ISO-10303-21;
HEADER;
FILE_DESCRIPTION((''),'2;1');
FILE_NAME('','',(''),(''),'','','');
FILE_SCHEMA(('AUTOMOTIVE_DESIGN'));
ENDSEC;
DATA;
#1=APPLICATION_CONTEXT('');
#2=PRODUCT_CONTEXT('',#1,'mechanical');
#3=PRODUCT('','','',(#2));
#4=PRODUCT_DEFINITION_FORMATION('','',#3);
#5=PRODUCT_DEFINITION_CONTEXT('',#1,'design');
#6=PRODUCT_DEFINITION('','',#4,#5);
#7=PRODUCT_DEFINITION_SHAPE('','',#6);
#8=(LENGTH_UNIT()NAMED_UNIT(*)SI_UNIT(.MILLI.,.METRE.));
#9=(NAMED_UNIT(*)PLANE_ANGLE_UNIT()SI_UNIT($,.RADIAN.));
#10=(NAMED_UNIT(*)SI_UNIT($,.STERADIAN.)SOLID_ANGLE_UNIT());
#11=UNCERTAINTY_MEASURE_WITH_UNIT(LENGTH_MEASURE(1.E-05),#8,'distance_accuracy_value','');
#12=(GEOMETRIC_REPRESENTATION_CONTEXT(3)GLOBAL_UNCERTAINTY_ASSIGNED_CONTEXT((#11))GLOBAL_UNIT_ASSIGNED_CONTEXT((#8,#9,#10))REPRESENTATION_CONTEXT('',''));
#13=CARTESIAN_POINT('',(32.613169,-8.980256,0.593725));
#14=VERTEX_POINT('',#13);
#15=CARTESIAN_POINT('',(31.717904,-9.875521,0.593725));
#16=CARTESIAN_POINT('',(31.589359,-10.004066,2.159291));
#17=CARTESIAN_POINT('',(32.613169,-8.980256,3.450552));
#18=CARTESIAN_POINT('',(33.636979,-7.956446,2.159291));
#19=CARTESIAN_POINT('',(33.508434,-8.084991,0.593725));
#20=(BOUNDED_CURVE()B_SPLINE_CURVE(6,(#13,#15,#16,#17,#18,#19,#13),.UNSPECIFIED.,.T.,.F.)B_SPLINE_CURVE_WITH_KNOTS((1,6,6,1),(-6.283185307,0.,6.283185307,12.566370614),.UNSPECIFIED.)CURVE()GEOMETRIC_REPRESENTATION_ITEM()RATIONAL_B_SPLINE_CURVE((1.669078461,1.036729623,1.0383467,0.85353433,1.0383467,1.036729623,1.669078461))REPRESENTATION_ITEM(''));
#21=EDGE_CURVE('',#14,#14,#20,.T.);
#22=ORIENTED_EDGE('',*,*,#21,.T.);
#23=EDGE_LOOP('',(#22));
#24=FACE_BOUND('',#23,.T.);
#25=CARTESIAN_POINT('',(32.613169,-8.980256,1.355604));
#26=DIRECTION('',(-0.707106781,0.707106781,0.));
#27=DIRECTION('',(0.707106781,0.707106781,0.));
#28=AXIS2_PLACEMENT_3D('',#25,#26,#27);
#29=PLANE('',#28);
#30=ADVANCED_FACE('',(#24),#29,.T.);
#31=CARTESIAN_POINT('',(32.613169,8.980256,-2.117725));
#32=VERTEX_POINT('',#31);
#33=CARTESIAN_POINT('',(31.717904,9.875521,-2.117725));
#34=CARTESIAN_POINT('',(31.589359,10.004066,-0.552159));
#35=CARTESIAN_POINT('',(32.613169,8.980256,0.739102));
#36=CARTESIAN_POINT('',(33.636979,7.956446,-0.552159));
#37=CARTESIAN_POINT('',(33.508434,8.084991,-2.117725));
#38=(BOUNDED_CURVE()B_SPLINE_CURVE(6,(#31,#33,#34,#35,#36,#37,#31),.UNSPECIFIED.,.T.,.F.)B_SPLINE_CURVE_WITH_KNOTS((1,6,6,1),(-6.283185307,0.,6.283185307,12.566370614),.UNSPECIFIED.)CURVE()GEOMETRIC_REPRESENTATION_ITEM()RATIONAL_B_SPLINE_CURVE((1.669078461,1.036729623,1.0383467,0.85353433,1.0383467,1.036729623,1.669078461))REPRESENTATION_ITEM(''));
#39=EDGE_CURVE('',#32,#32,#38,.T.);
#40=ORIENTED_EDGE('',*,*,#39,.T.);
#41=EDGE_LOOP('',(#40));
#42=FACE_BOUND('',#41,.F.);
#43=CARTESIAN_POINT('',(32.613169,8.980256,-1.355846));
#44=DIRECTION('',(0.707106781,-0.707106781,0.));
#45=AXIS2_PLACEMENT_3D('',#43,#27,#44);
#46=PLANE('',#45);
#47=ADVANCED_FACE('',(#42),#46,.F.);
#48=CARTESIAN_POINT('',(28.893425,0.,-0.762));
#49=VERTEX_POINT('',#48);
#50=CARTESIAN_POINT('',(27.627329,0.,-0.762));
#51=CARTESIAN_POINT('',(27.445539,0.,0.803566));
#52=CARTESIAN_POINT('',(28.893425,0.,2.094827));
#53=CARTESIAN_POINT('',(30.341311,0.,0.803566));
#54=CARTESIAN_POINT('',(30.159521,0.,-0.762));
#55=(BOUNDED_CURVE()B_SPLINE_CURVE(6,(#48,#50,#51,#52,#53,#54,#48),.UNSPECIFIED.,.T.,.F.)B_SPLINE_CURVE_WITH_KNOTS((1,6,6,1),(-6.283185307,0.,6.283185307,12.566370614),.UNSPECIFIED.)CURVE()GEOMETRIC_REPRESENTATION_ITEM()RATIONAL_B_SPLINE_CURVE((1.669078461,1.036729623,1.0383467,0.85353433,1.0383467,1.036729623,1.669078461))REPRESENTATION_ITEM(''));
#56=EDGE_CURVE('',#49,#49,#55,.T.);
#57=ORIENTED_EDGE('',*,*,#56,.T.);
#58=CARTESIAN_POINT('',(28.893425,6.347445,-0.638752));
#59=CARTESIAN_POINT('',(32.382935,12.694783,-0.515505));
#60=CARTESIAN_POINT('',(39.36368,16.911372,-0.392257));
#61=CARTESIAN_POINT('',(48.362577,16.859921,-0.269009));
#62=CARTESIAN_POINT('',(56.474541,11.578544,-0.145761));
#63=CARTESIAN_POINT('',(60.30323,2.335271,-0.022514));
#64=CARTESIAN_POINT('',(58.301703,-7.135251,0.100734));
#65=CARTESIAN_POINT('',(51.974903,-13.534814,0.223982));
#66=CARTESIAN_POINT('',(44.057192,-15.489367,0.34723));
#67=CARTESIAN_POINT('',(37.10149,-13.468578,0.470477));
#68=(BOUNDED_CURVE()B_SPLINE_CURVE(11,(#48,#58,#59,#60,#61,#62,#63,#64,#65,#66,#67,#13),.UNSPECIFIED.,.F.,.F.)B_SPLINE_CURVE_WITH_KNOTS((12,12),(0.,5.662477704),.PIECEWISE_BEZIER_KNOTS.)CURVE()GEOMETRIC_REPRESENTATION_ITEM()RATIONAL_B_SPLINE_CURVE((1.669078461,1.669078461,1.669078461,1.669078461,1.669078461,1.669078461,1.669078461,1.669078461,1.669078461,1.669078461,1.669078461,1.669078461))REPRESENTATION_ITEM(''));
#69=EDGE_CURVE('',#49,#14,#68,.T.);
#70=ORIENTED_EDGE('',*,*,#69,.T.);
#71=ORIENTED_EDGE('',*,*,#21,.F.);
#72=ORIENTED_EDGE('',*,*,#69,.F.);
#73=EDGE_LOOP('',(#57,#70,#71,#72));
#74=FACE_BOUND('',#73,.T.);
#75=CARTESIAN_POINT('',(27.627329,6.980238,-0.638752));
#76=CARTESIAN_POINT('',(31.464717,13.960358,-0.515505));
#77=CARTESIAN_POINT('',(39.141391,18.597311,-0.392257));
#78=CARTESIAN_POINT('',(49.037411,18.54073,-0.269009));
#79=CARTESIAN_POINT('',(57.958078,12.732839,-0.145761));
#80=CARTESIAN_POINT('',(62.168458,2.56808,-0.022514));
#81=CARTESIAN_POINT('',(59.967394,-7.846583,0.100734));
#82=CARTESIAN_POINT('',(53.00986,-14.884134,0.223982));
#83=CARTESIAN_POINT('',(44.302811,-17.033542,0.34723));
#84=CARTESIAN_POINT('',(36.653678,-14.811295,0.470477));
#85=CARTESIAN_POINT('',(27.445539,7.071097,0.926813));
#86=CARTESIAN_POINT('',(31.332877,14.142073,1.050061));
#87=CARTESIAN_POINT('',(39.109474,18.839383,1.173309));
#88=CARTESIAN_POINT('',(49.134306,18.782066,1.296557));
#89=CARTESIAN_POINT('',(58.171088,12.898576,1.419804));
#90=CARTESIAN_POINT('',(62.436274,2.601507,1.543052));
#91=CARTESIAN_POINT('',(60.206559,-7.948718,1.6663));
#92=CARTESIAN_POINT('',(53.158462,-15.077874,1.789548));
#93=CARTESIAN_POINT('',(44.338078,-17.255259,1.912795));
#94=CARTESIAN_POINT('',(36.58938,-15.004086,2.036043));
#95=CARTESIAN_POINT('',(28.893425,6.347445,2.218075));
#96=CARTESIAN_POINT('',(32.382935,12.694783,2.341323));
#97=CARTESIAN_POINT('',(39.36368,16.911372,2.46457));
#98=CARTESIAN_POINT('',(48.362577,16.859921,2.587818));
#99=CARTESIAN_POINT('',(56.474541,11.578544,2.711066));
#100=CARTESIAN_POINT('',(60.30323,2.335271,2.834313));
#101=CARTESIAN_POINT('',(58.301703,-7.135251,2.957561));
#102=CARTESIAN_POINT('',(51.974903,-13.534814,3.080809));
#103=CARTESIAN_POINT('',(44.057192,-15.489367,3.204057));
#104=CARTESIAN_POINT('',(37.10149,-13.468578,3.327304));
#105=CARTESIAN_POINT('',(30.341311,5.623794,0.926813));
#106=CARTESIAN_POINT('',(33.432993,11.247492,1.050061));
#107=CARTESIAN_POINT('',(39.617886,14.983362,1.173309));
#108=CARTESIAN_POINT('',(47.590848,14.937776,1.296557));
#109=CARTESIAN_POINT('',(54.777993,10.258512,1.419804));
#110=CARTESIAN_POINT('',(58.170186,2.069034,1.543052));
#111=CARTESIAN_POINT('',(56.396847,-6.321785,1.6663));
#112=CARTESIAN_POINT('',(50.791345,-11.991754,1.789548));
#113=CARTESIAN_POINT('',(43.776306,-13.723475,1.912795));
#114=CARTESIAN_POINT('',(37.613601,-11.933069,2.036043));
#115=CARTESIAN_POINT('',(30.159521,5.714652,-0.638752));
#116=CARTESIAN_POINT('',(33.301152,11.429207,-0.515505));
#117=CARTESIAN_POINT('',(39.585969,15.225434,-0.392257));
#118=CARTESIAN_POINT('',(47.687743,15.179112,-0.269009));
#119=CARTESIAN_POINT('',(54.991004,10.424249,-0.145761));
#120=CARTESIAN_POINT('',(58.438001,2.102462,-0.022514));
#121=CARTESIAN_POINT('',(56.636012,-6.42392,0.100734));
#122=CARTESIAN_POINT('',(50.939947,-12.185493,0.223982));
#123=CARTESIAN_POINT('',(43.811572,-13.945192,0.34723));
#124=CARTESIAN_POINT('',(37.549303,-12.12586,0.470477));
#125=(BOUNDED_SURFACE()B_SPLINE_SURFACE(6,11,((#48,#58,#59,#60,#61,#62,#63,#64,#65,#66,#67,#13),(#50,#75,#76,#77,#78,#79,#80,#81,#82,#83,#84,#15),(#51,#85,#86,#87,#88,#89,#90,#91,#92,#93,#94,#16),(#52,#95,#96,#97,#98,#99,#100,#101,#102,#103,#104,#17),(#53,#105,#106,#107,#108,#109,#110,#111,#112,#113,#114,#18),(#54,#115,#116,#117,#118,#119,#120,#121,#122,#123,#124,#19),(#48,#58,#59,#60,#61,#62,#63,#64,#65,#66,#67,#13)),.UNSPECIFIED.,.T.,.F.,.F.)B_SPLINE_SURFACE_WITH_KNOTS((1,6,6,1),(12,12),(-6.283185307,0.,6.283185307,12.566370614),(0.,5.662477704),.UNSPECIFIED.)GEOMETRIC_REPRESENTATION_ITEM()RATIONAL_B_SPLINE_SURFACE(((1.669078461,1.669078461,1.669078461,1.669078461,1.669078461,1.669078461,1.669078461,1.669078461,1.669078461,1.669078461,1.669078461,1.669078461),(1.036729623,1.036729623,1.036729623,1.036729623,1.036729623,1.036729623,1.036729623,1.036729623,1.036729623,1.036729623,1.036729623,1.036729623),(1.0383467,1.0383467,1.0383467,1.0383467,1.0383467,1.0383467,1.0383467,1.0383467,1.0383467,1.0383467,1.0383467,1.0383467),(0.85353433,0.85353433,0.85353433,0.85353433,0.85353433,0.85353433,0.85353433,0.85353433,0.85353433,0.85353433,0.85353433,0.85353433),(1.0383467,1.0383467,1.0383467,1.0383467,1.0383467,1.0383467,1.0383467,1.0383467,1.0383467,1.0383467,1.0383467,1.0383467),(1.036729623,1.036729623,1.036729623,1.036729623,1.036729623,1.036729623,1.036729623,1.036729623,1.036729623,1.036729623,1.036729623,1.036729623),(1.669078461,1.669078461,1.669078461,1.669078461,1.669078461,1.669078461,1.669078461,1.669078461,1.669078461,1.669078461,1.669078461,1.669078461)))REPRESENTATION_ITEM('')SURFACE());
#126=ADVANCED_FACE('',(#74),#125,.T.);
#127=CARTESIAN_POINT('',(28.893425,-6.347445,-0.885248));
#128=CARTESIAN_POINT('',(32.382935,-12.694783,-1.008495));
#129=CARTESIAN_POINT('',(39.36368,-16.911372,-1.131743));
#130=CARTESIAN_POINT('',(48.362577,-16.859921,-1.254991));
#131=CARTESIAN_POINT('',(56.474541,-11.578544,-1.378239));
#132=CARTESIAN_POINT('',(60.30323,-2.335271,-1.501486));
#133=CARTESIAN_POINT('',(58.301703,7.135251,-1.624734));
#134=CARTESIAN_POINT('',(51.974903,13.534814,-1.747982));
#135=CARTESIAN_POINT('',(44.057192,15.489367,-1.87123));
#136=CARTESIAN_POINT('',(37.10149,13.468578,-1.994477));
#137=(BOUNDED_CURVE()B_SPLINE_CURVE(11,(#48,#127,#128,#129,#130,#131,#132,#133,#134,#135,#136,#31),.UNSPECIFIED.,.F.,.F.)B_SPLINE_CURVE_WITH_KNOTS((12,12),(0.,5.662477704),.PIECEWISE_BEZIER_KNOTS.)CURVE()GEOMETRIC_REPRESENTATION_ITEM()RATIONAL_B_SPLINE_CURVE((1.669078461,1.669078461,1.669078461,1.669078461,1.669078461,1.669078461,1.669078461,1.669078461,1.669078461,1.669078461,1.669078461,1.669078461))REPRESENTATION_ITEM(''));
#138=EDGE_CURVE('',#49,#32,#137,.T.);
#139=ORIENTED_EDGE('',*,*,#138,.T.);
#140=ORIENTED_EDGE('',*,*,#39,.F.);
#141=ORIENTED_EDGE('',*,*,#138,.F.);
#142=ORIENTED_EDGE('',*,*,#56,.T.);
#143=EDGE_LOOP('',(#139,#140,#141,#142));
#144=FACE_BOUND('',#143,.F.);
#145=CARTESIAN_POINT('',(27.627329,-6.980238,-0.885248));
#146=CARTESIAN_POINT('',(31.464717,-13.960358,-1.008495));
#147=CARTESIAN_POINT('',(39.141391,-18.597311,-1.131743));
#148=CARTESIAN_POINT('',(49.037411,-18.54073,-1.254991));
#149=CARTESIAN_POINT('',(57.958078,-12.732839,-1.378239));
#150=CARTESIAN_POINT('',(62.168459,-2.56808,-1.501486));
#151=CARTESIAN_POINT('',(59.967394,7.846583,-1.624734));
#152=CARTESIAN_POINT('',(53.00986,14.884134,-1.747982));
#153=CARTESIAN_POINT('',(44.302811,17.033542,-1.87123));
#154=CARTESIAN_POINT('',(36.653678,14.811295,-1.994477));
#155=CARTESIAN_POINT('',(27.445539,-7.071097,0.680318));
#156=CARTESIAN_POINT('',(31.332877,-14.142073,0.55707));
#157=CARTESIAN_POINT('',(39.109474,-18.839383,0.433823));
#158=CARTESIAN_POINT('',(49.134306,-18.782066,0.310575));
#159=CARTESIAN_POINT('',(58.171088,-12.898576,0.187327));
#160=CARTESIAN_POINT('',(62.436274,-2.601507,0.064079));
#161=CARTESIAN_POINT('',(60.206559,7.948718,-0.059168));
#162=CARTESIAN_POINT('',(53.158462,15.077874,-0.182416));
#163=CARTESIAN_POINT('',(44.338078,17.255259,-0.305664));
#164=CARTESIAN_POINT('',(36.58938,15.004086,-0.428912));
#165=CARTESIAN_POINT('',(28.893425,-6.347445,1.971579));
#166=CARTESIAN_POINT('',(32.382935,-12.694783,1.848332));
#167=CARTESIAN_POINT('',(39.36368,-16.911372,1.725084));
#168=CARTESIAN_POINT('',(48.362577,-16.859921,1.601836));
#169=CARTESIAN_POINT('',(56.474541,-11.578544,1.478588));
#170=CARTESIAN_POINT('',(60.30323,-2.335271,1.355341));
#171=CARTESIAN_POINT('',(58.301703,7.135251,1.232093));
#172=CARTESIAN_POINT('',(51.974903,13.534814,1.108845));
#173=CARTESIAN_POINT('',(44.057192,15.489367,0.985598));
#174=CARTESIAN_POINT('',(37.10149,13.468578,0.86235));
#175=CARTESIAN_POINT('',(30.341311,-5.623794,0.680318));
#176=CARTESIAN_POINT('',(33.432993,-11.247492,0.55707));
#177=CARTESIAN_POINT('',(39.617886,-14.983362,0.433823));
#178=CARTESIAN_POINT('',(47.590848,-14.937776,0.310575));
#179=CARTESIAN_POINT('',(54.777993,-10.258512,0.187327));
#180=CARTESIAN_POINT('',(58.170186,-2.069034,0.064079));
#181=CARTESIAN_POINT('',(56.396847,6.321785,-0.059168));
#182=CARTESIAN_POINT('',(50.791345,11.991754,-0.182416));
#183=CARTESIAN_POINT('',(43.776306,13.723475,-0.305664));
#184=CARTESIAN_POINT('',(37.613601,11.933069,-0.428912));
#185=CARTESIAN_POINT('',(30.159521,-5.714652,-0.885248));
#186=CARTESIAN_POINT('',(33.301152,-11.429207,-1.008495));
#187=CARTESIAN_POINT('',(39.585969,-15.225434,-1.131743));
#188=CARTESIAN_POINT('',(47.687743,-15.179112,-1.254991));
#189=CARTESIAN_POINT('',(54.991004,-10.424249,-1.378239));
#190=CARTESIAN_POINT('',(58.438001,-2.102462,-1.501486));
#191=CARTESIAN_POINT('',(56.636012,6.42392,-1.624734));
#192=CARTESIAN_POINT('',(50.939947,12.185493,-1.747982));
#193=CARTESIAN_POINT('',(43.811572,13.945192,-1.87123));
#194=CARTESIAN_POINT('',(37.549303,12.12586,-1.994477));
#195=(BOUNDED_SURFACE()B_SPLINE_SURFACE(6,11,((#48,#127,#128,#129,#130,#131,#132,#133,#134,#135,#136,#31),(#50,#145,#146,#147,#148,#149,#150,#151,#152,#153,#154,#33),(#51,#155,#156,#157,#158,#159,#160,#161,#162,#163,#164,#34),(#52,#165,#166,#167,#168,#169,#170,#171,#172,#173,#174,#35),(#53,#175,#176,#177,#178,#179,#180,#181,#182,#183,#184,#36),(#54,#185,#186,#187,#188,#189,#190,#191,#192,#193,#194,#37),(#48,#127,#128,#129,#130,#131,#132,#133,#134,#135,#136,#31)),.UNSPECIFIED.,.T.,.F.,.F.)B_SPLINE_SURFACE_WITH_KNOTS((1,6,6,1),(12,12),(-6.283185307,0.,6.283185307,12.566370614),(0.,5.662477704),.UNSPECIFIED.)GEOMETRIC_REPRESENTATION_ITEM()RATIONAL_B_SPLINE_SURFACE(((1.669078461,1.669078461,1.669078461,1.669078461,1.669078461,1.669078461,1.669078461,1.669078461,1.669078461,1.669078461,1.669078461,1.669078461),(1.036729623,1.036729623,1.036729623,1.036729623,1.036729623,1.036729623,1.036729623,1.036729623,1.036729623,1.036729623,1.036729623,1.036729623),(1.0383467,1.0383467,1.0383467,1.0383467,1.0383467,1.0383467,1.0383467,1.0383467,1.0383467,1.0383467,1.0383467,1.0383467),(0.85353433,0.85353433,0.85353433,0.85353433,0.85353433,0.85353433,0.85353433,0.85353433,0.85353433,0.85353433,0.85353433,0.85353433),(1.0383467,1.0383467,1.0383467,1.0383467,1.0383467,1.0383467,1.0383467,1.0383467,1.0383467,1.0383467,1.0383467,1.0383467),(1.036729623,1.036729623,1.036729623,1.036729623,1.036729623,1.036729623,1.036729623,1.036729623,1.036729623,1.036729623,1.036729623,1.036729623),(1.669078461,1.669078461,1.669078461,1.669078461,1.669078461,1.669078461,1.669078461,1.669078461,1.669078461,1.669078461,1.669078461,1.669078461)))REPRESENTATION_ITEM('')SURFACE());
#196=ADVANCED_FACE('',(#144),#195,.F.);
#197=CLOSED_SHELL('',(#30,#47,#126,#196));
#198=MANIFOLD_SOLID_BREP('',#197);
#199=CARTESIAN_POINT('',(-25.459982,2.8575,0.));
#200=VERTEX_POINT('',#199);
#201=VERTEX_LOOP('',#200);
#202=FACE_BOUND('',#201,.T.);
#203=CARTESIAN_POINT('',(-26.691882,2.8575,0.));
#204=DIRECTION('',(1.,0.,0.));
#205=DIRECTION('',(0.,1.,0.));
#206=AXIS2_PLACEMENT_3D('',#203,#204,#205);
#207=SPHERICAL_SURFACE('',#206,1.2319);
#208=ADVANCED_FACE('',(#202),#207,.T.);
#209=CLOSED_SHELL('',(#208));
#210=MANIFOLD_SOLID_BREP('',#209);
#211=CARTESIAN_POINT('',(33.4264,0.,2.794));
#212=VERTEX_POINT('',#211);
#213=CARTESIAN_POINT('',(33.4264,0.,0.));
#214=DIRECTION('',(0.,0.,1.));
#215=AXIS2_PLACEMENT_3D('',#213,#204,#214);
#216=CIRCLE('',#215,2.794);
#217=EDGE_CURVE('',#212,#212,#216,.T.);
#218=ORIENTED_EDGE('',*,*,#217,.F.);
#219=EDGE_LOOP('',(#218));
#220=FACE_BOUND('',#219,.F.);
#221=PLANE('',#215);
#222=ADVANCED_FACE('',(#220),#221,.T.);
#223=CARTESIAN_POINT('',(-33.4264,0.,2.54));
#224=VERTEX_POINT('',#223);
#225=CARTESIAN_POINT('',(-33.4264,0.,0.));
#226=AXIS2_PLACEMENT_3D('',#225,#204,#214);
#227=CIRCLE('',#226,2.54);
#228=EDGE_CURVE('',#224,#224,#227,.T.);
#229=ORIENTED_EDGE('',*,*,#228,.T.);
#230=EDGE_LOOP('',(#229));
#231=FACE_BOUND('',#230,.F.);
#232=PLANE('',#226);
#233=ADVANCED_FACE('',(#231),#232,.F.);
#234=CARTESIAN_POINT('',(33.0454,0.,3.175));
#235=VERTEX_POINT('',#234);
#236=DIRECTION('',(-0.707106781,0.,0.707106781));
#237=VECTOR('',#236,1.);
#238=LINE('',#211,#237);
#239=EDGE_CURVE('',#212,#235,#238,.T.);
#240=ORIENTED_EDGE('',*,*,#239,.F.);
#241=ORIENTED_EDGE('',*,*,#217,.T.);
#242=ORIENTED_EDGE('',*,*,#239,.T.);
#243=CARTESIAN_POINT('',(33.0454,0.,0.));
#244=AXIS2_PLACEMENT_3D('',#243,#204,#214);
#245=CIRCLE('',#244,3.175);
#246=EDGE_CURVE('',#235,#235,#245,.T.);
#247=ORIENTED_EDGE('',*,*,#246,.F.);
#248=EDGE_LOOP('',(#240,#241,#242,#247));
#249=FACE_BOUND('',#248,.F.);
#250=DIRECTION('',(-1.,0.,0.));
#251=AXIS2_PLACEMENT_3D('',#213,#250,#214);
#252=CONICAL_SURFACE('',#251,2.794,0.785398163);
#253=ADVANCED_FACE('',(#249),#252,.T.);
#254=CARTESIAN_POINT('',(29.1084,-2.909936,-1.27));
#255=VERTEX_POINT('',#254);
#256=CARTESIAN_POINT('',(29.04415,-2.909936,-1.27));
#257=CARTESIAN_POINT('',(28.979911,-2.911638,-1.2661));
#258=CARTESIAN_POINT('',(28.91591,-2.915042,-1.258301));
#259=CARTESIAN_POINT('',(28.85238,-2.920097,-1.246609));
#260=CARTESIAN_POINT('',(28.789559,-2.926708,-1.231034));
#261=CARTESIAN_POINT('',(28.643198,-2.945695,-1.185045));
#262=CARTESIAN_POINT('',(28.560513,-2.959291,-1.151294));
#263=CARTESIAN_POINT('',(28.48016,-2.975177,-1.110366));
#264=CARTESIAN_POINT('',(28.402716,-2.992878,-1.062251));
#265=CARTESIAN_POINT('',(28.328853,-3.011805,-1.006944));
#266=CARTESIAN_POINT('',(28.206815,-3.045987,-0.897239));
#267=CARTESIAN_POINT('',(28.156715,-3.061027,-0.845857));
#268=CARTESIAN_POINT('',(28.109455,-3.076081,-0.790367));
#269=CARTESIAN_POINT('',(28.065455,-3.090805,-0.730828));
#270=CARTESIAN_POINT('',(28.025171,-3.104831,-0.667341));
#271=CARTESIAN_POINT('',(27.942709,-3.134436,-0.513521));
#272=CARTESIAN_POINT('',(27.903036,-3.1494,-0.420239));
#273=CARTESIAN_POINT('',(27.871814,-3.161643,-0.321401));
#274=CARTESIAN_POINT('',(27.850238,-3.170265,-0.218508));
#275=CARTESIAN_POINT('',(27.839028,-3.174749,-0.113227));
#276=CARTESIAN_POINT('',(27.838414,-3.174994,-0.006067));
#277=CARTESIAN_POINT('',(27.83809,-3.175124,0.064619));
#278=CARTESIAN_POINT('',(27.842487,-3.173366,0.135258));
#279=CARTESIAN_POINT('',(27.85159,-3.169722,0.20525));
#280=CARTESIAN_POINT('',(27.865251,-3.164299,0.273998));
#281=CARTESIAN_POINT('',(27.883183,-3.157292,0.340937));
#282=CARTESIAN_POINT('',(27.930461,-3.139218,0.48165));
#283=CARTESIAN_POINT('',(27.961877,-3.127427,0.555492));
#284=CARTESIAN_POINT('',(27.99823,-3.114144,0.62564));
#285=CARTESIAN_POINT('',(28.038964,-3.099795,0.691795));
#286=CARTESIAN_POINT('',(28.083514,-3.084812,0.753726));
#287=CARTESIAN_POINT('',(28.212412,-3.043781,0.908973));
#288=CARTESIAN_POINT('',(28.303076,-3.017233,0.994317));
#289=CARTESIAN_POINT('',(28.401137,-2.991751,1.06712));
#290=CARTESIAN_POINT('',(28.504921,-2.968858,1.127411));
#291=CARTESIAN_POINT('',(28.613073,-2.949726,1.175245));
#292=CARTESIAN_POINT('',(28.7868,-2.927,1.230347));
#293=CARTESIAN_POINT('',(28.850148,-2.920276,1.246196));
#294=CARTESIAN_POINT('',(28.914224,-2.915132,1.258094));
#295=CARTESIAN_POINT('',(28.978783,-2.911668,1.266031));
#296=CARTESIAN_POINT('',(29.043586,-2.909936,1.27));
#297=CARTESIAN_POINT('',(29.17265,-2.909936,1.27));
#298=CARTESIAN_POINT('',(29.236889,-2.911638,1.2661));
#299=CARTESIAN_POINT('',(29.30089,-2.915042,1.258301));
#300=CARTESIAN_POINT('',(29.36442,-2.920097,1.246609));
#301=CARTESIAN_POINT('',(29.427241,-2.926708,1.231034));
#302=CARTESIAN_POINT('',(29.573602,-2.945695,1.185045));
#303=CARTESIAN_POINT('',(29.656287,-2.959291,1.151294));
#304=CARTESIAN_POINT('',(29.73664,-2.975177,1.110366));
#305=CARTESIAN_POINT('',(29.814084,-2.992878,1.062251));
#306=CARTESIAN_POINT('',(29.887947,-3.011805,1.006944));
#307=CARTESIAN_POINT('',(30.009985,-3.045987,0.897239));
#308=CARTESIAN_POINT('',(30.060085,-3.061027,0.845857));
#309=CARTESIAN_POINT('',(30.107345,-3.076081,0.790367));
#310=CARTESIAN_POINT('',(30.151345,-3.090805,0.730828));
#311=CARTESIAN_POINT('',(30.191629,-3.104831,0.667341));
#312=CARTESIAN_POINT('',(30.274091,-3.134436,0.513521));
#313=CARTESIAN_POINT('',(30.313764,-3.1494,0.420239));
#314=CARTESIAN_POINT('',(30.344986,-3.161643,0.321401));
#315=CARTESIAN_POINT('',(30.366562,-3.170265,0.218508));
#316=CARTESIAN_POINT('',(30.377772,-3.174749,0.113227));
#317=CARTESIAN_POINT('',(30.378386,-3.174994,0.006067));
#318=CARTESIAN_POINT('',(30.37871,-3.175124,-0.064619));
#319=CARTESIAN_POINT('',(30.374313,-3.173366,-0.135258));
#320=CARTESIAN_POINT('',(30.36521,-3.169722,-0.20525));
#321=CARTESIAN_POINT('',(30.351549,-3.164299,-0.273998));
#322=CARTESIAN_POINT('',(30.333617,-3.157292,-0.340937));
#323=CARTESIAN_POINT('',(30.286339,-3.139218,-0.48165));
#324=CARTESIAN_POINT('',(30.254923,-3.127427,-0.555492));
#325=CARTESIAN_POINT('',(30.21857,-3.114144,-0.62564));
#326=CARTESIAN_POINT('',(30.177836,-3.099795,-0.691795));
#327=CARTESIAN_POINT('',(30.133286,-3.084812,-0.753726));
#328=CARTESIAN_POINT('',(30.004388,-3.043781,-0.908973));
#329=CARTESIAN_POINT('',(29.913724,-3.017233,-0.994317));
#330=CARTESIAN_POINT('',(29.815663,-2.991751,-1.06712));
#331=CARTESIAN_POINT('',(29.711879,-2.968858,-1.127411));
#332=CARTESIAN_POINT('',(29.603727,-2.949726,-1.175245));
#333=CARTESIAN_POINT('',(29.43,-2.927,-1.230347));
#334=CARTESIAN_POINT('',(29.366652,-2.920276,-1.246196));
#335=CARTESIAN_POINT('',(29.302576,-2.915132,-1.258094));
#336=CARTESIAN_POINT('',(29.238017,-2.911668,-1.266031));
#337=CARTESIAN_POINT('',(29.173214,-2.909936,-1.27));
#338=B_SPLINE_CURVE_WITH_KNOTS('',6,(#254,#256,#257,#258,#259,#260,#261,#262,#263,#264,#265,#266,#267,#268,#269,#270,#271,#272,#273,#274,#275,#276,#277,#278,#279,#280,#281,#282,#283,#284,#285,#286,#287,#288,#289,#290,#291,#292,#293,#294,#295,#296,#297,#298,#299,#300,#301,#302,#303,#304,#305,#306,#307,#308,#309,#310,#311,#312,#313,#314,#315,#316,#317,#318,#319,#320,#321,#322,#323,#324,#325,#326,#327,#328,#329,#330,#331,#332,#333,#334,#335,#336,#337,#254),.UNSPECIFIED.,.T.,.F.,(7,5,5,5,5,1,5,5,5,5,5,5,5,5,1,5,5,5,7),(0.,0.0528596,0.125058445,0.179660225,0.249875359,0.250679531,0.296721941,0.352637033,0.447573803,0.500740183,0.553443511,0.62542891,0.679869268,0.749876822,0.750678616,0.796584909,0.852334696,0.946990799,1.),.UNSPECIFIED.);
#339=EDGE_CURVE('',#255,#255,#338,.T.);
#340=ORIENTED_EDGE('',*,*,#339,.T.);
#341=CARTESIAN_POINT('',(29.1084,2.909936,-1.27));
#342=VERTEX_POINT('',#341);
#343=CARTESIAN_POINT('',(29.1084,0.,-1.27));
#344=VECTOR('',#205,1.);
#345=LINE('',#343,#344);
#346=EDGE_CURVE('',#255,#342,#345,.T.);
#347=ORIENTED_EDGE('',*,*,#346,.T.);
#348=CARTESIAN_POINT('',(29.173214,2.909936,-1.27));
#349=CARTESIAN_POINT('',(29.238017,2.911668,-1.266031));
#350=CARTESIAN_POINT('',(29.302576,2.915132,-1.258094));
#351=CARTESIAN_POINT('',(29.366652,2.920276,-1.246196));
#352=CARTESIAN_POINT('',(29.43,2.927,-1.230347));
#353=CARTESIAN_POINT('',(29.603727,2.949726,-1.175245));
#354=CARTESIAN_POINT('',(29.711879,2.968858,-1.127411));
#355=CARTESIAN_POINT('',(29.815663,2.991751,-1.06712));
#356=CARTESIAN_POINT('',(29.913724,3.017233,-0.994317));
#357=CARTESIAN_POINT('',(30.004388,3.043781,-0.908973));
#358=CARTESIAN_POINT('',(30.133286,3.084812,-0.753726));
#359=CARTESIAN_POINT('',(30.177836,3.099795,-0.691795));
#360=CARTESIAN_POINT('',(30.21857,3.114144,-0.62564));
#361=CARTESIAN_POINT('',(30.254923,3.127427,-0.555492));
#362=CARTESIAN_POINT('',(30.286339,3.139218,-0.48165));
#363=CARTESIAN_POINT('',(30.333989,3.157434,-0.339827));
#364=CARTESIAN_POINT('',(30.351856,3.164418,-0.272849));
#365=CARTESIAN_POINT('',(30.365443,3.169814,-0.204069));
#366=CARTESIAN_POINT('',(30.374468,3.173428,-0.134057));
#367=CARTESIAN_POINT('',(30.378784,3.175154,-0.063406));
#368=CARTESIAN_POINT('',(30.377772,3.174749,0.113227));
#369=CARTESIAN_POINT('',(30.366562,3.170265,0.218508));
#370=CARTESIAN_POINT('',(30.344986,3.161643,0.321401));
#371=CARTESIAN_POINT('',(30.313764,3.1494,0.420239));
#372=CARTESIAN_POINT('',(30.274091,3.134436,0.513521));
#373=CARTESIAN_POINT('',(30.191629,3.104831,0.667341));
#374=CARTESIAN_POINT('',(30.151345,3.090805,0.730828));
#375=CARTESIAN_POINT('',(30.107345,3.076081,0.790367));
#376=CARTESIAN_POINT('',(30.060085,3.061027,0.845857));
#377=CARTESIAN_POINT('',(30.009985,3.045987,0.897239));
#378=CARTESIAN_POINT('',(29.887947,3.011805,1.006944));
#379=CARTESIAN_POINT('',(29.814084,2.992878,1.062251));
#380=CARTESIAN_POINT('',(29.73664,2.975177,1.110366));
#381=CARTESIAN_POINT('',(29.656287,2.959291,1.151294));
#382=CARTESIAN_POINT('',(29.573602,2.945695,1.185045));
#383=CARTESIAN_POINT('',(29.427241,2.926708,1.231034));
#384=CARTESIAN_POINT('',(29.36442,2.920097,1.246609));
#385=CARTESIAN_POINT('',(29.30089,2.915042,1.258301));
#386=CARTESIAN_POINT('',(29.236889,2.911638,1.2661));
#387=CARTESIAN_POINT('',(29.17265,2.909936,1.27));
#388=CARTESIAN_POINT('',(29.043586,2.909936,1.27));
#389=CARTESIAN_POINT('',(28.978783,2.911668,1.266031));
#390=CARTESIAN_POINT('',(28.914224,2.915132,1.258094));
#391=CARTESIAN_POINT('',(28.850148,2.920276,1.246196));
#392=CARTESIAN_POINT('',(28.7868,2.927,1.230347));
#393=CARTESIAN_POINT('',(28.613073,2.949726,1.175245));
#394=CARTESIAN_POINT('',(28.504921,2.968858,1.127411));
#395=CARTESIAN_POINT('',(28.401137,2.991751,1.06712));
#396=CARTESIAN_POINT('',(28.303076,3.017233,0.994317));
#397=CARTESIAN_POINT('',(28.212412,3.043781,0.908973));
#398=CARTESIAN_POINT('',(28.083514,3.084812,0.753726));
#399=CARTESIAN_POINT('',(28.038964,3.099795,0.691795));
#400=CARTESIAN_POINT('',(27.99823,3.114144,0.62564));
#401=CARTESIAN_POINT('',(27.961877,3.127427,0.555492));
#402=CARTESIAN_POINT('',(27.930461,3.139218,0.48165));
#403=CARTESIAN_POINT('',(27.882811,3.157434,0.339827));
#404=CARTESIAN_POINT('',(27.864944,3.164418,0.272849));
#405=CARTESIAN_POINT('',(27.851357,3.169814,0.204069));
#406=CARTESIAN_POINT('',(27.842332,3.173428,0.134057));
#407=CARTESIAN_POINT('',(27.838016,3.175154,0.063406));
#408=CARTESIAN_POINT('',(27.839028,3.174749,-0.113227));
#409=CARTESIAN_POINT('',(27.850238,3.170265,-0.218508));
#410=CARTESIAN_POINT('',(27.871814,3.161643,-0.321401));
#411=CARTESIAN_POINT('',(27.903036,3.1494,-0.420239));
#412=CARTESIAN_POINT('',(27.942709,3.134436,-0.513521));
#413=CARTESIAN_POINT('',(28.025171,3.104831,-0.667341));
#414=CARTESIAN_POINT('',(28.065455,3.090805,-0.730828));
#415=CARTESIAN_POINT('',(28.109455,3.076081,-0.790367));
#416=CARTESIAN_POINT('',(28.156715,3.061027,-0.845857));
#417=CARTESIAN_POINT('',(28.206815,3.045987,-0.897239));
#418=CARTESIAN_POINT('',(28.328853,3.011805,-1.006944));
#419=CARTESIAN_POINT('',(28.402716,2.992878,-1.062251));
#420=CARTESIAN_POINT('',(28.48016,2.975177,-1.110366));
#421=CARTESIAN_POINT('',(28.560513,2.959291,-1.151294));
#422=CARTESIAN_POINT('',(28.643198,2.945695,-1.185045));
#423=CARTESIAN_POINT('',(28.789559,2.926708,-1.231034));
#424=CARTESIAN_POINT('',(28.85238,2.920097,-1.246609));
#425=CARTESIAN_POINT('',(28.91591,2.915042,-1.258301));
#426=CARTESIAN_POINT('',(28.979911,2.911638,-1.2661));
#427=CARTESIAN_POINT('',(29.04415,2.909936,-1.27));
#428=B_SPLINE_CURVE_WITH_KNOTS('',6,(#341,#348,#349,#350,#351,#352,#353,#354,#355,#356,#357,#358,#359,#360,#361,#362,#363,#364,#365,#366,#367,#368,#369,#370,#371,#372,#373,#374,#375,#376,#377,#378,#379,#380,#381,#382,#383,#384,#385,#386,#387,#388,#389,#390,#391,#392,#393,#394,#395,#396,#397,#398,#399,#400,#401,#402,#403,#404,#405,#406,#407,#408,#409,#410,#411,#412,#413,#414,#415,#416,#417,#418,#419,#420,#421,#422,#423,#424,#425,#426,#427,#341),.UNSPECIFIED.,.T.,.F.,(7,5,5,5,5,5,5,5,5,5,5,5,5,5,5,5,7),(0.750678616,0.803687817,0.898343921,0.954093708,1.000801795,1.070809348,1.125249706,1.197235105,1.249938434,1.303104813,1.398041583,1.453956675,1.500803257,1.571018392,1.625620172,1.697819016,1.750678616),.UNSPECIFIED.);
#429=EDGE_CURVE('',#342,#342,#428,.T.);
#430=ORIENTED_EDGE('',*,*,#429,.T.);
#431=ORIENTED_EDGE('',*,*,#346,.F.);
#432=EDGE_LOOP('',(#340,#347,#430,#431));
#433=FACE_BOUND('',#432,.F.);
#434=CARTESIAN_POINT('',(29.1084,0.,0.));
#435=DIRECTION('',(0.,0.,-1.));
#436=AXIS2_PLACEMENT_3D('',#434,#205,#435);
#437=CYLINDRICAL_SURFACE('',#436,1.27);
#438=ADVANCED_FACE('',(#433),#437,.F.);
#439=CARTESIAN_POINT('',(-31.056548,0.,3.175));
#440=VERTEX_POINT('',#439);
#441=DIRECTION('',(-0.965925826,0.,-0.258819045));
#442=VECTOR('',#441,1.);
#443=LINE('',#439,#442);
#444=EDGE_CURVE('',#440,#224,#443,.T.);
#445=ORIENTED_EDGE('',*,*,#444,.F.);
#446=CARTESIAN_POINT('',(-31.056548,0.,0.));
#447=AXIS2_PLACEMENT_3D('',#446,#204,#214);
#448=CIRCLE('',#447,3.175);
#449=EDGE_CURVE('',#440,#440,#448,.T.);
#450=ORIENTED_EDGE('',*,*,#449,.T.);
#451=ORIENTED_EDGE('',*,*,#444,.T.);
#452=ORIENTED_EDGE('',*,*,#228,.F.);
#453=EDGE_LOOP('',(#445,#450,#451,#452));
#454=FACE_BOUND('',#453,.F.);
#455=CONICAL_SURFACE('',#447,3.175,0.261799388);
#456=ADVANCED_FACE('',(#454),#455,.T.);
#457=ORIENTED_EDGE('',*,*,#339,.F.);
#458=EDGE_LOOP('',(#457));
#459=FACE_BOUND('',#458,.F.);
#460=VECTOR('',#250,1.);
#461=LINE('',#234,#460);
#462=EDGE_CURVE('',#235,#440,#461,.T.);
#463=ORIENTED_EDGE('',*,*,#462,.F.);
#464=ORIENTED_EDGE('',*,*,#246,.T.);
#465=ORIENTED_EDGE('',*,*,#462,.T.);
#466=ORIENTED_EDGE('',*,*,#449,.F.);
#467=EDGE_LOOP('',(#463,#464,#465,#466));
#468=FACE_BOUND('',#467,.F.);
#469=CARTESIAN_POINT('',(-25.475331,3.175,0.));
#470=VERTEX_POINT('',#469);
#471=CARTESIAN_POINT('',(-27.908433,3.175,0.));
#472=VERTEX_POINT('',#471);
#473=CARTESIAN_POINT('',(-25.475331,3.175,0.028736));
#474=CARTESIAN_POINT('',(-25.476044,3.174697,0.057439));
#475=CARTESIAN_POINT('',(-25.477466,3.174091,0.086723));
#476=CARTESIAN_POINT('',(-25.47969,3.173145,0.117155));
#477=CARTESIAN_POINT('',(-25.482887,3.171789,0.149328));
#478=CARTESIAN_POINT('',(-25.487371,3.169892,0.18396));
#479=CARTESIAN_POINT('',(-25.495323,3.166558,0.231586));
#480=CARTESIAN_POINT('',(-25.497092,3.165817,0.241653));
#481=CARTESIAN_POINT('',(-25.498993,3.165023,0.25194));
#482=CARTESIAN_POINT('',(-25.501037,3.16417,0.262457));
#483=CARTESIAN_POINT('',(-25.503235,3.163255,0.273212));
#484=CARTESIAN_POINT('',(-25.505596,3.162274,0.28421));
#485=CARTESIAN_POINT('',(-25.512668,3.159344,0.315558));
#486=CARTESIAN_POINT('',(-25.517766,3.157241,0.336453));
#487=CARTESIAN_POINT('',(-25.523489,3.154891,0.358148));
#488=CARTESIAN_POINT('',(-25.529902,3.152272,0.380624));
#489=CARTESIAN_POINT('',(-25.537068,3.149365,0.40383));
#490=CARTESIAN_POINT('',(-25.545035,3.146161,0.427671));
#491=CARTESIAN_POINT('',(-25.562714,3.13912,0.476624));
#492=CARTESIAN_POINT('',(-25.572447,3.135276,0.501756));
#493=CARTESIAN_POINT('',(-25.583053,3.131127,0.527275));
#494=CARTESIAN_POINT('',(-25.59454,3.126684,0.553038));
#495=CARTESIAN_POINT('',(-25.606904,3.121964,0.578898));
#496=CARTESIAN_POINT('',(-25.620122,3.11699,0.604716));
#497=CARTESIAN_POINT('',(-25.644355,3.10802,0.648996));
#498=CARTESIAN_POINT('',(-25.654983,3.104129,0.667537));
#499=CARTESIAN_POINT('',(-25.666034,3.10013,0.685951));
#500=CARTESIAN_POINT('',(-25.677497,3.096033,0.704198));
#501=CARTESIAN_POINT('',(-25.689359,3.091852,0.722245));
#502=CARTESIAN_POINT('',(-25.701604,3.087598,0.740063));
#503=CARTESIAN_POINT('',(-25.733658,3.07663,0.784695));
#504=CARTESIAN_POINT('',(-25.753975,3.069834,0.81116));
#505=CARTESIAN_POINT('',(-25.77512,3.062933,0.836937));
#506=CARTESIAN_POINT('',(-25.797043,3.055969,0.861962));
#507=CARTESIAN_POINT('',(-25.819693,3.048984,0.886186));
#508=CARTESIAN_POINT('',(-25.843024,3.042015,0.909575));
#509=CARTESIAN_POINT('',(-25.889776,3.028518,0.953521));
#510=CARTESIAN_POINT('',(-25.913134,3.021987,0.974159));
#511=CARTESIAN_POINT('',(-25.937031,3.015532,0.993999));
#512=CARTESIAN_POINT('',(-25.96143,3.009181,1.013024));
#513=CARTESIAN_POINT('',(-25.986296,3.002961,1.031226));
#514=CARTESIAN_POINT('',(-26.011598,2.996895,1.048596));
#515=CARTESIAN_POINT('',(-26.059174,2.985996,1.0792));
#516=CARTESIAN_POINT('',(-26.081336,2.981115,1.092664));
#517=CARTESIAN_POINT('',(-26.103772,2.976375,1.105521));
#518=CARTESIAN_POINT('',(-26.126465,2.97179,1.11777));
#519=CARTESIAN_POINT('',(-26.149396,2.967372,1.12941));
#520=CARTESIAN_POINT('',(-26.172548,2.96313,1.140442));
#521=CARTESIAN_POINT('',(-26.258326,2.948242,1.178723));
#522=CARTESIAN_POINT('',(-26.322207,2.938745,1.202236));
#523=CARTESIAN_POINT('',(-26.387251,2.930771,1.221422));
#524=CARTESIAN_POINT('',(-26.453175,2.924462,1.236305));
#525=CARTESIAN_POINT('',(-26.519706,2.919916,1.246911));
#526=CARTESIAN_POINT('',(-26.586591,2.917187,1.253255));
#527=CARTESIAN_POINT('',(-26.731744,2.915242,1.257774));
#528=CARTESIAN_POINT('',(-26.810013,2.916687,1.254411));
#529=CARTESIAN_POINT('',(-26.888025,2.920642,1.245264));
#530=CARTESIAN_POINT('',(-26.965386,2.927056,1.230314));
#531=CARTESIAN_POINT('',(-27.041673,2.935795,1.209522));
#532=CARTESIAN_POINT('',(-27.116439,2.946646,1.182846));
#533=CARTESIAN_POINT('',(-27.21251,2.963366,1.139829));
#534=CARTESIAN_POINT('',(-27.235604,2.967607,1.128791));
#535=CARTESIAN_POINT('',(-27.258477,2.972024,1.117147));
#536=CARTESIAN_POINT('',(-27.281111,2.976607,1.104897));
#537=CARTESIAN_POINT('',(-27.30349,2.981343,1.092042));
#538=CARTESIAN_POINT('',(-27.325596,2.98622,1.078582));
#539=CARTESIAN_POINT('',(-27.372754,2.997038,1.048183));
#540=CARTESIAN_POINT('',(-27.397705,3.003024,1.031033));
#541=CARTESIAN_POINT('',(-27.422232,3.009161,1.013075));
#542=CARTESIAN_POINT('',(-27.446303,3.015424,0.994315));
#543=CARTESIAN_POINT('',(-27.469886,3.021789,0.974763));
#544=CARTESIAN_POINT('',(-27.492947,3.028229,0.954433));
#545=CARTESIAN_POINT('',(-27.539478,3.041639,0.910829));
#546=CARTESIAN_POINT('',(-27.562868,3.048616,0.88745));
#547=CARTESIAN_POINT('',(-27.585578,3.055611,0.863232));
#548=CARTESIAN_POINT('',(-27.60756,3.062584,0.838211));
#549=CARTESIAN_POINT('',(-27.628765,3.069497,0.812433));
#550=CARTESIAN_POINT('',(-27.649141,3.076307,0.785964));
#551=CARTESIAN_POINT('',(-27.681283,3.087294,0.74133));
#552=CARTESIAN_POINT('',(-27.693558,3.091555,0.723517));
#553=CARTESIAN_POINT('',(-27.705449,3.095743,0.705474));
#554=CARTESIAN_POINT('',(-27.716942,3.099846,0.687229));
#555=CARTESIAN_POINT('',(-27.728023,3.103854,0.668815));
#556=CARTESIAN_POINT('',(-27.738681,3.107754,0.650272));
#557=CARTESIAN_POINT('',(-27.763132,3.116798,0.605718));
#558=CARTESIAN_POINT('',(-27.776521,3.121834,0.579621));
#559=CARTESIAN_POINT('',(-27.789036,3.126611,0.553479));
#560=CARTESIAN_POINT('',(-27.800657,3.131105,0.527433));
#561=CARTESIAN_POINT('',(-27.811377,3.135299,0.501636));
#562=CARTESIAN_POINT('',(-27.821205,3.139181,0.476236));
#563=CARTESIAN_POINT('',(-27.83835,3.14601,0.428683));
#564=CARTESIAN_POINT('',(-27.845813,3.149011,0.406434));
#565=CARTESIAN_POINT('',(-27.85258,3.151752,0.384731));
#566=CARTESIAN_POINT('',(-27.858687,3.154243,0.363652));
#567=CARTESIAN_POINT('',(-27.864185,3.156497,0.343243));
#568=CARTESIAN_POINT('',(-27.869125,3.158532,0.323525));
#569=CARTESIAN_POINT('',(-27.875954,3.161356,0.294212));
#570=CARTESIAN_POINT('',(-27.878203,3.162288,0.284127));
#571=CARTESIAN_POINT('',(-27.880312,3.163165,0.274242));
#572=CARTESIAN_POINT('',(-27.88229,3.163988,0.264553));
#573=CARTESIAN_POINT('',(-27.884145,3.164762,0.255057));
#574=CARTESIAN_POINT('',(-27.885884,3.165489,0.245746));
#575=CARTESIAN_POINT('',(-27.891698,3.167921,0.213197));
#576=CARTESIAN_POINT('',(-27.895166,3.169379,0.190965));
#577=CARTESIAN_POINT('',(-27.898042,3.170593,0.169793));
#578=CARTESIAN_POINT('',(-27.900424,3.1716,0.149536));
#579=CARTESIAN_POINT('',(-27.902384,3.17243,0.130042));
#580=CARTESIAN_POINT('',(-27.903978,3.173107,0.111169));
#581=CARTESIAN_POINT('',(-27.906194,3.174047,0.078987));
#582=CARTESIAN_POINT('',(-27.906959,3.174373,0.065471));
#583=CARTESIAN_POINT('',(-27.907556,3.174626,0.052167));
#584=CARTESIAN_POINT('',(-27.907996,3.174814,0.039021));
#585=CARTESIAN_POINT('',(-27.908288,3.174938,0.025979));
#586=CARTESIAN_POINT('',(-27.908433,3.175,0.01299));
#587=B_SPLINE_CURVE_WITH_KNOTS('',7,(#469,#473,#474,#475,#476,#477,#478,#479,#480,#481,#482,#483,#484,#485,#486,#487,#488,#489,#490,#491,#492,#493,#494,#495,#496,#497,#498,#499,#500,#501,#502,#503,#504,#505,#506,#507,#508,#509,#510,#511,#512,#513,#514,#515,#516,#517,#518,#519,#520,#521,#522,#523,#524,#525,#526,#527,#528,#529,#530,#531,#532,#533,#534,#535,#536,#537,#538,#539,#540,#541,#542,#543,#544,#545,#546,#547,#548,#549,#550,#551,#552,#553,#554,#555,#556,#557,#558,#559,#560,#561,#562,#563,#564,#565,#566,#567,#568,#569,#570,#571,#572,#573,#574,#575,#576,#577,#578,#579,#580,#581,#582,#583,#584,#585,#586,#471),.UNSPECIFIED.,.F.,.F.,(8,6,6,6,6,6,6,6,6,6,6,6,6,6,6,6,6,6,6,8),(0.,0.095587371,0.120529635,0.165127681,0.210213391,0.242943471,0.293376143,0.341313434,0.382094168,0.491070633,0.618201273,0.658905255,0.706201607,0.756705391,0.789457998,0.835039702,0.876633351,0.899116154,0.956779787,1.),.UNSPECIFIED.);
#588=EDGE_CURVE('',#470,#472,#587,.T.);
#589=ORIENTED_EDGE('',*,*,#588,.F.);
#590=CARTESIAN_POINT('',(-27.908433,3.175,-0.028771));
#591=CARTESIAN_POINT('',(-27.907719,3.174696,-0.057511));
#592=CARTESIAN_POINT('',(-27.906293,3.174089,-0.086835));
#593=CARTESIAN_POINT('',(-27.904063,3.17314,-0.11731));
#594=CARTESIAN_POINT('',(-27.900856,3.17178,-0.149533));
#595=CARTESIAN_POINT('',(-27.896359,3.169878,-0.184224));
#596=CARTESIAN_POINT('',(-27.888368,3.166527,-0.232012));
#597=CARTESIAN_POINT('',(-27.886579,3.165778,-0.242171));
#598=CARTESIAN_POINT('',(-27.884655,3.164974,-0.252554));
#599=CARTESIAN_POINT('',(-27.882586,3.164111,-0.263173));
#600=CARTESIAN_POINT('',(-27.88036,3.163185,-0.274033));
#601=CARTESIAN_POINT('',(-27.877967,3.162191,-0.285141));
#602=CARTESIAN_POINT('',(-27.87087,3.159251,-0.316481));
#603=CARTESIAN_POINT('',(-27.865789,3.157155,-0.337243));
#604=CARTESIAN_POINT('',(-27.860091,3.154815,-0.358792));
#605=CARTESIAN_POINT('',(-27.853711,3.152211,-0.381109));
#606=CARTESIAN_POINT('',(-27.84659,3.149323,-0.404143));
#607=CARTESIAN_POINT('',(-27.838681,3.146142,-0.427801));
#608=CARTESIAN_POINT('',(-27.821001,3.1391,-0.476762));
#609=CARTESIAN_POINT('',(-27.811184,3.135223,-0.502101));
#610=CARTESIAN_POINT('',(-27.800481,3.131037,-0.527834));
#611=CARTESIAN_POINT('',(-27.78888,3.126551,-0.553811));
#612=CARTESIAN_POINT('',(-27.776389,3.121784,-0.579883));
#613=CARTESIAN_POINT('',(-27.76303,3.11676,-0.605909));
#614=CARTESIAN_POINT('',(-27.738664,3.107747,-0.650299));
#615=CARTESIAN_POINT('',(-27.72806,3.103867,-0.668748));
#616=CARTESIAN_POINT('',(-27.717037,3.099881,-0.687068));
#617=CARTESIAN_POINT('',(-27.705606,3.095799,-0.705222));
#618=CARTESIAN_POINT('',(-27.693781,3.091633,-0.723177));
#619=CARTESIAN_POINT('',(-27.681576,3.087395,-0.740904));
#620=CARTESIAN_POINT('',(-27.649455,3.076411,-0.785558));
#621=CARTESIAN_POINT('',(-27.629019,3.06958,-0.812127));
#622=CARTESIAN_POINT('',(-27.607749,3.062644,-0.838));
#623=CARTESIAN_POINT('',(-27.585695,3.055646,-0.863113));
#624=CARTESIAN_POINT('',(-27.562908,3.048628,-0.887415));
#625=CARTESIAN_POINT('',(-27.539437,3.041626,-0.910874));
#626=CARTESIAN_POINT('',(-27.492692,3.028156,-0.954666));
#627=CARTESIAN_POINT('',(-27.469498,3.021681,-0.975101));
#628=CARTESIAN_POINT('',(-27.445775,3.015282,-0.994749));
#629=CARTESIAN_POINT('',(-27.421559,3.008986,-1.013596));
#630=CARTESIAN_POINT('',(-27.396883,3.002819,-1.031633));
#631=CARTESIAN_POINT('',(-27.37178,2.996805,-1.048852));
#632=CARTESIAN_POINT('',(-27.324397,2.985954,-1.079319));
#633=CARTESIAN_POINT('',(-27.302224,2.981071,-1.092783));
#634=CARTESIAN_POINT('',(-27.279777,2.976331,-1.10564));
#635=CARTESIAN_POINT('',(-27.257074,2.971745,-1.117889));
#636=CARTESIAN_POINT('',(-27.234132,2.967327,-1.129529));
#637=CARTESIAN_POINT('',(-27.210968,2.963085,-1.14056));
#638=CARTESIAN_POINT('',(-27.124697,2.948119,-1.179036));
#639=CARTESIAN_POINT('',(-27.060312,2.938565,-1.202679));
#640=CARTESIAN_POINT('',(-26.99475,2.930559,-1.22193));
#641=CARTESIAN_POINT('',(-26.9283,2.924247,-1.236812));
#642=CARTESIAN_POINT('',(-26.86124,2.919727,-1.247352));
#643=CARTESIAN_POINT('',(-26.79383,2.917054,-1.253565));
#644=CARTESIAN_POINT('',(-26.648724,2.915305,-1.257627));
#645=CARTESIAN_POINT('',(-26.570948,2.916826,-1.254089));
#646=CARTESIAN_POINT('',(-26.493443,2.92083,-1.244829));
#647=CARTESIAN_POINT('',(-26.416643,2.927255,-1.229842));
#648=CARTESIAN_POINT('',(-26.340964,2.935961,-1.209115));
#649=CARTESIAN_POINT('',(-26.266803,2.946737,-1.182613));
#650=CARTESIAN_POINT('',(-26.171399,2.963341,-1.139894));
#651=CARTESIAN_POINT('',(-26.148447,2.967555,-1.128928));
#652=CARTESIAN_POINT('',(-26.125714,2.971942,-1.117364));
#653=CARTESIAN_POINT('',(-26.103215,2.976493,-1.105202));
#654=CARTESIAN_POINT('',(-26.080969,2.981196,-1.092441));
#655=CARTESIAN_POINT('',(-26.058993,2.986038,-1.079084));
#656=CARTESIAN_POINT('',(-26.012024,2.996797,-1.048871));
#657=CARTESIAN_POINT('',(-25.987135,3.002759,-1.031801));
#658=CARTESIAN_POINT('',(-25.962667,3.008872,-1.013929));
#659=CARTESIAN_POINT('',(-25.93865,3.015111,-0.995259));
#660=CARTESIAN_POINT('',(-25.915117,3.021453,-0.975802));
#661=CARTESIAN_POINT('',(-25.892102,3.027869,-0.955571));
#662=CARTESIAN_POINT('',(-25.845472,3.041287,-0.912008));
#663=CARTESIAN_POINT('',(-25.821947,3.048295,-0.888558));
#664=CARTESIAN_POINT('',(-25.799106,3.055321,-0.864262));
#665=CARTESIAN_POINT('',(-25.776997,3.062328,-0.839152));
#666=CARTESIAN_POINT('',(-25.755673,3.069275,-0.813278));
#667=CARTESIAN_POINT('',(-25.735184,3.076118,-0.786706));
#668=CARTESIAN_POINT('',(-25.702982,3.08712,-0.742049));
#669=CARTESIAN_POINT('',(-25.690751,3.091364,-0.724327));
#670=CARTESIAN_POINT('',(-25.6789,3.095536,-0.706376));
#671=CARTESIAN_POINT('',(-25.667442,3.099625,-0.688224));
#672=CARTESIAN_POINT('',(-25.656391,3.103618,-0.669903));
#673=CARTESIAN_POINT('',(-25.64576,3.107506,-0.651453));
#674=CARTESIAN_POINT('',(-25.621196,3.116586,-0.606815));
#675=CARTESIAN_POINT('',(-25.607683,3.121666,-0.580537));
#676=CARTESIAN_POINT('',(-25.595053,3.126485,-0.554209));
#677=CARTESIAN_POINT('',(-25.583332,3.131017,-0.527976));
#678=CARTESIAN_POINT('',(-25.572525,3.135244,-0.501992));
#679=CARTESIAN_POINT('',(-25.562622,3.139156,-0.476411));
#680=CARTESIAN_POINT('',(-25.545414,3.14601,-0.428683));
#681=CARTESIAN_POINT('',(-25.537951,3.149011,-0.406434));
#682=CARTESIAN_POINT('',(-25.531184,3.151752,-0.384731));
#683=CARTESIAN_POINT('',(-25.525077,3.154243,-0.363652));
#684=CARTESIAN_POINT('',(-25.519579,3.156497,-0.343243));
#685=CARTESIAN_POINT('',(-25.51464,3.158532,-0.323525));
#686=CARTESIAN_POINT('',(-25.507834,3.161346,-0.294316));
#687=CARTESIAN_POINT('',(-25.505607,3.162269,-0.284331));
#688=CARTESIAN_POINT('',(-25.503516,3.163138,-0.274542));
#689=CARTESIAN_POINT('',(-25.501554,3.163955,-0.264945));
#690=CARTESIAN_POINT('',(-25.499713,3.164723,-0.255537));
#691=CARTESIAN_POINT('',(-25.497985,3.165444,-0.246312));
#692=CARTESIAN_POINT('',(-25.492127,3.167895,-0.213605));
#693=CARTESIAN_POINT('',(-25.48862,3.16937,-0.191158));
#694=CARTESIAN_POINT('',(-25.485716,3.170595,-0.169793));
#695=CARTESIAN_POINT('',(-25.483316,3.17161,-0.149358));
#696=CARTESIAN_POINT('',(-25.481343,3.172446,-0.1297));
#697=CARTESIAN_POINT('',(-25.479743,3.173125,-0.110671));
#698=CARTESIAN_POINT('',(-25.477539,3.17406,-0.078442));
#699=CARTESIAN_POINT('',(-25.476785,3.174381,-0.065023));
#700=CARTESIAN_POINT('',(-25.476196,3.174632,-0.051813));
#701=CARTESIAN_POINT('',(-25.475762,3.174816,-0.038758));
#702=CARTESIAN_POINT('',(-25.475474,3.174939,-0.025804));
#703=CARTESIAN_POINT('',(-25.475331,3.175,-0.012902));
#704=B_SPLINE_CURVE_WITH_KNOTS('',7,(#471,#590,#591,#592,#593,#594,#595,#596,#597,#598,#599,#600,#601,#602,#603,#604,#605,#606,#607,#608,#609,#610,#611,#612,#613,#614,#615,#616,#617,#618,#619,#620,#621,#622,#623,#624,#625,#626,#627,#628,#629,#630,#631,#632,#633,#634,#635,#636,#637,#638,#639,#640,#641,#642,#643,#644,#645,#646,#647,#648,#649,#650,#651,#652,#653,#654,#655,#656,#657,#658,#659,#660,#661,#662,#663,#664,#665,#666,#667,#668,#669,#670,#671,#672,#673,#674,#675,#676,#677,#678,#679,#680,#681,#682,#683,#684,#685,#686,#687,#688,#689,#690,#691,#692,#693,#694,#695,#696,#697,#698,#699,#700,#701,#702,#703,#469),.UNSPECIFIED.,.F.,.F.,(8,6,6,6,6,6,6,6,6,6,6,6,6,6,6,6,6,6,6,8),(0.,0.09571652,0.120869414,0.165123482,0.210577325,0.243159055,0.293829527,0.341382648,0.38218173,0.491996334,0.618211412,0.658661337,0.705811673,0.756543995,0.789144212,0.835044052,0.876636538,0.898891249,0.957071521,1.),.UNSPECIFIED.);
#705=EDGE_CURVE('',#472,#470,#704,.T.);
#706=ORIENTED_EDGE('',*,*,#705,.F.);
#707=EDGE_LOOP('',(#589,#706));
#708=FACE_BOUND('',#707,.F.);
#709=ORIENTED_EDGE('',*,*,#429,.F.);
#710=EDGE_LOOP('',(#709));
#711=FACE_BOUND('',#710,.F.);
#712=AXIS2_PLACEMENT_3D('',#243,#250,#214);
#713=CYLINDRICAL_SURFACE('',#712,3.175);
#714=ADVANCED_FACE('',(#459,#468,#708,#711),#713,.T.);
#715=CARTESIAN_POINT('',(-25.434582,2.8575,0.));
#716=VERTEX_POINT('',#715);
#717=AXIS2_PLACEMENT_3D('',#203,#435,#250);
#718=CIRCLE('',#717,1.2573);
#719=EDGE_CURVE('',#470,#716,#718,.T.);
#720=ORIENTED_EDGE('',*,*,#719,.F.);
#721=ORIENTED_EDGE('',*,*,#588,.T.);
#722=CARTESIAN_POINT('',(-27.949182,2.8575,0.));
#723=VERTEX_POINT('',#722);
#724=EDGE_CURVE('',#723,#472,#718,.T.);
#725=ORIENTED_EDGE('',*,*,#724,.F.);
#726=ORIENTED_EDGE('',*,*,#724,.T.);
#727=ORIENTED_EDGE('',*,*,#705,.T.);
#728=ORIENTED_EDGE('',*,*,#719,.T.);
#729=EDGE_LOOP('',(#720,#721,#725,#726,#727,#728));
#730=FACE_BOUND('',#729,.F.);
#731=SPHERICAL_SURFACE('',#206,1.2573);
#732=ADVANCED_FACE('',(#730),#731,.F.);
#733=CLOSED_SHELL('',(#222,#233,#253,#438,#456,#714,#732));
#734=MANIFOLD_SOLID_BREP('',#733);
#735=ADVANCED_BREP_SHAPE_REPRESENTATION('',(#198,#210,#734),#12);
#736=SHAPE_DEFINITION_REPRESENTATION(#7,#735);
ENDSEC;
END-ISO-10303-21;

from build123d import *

# Parameters (mm, degrees)
SKETCH4_W          = 1.27
SKETCH4_H          = 6.35
SWEEP1_PITCH       = 1.5494
SWEEP1_HEIGHT      = 1.355725
SWEEP1_RADIUS      = 13.462
SKETCH6_R          = 0.762
SWEEP2_PITCH       = 1.5494
SWEEP2_HEIGHT      = 1.355725
SWEEP2_RADIUS      = 13.462
SWEEP2_START_ANGLE = -180
SKETCH6_2_R        = 0.762


with BuildPart() as part:
    # Sketch1 → Revolve1 (revolve)
    with BuildSketch(Plane.XY, mode=Mode.PRIVATE) as revolve1_sk:
        Polygon((33.4264, 2.794), (33.0454, 3.175), (-31.056547737, 3.175), (-33.4264, 2.54), (-33.4264, 0), (33.4264, 0), align=None)
    revolve(revolve1_sk.sketch.rotate(Axis((33.4264, 0, 0), (1, 0, 0)), 90), axis=Axis((33.4264, 0, 0), (1, 0, 0)))

    # Sketch2 → Cut-Revolve1 (revolve, cut)
    with BuildSketch(Plane.XY):
        with BuildLine():
            Line((-25.434582051, 2.8575), (-27.949182051, 2.8575))
            ThreePointArc((-27.949182051, 2.8575), (-26.691882051, 4.1148), (-25.434582051, 2.8575))
        make_face()
    revolve(axis=Axis((-25.434582051, 2.8575, 0), (1, 0, 0)), mode=Mode.SUBTRACT)

    # Sketch4 → Cut-Revolve2 (revolve, cut)
    with BuildSketch(Plane.XY, mode=Mode.PRIVATE) as cut_revolve2_sk:
        with Locations((29.7434, 0)):
            Rectangle(SKETCH4_W, SKETCH4_H)
    revolve(cut_revolve2_sk.sketch.rotate(Axis((29.1084, -3.175, 0), (0, 1, 0)), 90), axis=Axis((29.1084, -3.175, 0), (0, 1, 0)), mode=Mode.SUBTRACT)


with BuildPart() as body_2:
    # Sketch3 → Revolve2 (revolve)
    with BuildSketch(Plane.XY):
        with BuildLine():
            Line((-25.459982051, 2.8575), (-27.923782051, 2.8575))
            ThreePointArc((-27.923782051, 2.8575), (-26.691882051, 4.0894), (-25.459982051, 2.8575))
        make_face()
    revolve(axis=Axis((-25.459982051, 2.8575, 0), (1, 0, 0)))


with BuildPart() as body_3:
    # Sweep1: sweep along a helix
    with BuildLine() as sweep1_path:
        Helix(SWEEP1_PITCH, SWEEP1_HEIGHT, SWEEP1_RADIUS, center=(41.593425091, 0, 0), direction=(0, 0, -1), lefthand=True)
    # Sketch6 → Sweep1 (sweep)
    with BuildSketch(Plane(origin=(114.003847968, 0, 0), x_dir=(0, 0, -1), z_dir=(0, 1, 0))):
        with Locations((0, 85.110422877)):
            Circle(SKETCH6_R)
    sweep(path=sweep1_path.line, is_frenet=True)

    # Sweep2: sweep along a helix
    with BuildLine() as sweep2_path:
        add(Helix(SWEEP2_PITCH, SWEEP2_HEIGHT, SWEEP2_RADIUS, center=(41.593425091, 0, 0), direction=(0, 0, 1), lefthand=True, mode=Mode.PRIVATE).rotate(Axis((41.593425091, 0, 0), (0, 0, 1)), SWEEP2_START_ANGLE))
    # Sketch6<2> → Sweep2 (sweep)
    with BuildSketch(Plane(origin=(114.003847968, 0, 0), x_dir=(0, 0, -1), z_dir=(0, 1, 0))):
        with Locations((0, 85.110422877)):
            Circle(SKETCH6_2_R)
    sweep(path=sweep2_path.line, is_frenet=True)


solid = Compound([part.part, body_2.part, body_3.part])
